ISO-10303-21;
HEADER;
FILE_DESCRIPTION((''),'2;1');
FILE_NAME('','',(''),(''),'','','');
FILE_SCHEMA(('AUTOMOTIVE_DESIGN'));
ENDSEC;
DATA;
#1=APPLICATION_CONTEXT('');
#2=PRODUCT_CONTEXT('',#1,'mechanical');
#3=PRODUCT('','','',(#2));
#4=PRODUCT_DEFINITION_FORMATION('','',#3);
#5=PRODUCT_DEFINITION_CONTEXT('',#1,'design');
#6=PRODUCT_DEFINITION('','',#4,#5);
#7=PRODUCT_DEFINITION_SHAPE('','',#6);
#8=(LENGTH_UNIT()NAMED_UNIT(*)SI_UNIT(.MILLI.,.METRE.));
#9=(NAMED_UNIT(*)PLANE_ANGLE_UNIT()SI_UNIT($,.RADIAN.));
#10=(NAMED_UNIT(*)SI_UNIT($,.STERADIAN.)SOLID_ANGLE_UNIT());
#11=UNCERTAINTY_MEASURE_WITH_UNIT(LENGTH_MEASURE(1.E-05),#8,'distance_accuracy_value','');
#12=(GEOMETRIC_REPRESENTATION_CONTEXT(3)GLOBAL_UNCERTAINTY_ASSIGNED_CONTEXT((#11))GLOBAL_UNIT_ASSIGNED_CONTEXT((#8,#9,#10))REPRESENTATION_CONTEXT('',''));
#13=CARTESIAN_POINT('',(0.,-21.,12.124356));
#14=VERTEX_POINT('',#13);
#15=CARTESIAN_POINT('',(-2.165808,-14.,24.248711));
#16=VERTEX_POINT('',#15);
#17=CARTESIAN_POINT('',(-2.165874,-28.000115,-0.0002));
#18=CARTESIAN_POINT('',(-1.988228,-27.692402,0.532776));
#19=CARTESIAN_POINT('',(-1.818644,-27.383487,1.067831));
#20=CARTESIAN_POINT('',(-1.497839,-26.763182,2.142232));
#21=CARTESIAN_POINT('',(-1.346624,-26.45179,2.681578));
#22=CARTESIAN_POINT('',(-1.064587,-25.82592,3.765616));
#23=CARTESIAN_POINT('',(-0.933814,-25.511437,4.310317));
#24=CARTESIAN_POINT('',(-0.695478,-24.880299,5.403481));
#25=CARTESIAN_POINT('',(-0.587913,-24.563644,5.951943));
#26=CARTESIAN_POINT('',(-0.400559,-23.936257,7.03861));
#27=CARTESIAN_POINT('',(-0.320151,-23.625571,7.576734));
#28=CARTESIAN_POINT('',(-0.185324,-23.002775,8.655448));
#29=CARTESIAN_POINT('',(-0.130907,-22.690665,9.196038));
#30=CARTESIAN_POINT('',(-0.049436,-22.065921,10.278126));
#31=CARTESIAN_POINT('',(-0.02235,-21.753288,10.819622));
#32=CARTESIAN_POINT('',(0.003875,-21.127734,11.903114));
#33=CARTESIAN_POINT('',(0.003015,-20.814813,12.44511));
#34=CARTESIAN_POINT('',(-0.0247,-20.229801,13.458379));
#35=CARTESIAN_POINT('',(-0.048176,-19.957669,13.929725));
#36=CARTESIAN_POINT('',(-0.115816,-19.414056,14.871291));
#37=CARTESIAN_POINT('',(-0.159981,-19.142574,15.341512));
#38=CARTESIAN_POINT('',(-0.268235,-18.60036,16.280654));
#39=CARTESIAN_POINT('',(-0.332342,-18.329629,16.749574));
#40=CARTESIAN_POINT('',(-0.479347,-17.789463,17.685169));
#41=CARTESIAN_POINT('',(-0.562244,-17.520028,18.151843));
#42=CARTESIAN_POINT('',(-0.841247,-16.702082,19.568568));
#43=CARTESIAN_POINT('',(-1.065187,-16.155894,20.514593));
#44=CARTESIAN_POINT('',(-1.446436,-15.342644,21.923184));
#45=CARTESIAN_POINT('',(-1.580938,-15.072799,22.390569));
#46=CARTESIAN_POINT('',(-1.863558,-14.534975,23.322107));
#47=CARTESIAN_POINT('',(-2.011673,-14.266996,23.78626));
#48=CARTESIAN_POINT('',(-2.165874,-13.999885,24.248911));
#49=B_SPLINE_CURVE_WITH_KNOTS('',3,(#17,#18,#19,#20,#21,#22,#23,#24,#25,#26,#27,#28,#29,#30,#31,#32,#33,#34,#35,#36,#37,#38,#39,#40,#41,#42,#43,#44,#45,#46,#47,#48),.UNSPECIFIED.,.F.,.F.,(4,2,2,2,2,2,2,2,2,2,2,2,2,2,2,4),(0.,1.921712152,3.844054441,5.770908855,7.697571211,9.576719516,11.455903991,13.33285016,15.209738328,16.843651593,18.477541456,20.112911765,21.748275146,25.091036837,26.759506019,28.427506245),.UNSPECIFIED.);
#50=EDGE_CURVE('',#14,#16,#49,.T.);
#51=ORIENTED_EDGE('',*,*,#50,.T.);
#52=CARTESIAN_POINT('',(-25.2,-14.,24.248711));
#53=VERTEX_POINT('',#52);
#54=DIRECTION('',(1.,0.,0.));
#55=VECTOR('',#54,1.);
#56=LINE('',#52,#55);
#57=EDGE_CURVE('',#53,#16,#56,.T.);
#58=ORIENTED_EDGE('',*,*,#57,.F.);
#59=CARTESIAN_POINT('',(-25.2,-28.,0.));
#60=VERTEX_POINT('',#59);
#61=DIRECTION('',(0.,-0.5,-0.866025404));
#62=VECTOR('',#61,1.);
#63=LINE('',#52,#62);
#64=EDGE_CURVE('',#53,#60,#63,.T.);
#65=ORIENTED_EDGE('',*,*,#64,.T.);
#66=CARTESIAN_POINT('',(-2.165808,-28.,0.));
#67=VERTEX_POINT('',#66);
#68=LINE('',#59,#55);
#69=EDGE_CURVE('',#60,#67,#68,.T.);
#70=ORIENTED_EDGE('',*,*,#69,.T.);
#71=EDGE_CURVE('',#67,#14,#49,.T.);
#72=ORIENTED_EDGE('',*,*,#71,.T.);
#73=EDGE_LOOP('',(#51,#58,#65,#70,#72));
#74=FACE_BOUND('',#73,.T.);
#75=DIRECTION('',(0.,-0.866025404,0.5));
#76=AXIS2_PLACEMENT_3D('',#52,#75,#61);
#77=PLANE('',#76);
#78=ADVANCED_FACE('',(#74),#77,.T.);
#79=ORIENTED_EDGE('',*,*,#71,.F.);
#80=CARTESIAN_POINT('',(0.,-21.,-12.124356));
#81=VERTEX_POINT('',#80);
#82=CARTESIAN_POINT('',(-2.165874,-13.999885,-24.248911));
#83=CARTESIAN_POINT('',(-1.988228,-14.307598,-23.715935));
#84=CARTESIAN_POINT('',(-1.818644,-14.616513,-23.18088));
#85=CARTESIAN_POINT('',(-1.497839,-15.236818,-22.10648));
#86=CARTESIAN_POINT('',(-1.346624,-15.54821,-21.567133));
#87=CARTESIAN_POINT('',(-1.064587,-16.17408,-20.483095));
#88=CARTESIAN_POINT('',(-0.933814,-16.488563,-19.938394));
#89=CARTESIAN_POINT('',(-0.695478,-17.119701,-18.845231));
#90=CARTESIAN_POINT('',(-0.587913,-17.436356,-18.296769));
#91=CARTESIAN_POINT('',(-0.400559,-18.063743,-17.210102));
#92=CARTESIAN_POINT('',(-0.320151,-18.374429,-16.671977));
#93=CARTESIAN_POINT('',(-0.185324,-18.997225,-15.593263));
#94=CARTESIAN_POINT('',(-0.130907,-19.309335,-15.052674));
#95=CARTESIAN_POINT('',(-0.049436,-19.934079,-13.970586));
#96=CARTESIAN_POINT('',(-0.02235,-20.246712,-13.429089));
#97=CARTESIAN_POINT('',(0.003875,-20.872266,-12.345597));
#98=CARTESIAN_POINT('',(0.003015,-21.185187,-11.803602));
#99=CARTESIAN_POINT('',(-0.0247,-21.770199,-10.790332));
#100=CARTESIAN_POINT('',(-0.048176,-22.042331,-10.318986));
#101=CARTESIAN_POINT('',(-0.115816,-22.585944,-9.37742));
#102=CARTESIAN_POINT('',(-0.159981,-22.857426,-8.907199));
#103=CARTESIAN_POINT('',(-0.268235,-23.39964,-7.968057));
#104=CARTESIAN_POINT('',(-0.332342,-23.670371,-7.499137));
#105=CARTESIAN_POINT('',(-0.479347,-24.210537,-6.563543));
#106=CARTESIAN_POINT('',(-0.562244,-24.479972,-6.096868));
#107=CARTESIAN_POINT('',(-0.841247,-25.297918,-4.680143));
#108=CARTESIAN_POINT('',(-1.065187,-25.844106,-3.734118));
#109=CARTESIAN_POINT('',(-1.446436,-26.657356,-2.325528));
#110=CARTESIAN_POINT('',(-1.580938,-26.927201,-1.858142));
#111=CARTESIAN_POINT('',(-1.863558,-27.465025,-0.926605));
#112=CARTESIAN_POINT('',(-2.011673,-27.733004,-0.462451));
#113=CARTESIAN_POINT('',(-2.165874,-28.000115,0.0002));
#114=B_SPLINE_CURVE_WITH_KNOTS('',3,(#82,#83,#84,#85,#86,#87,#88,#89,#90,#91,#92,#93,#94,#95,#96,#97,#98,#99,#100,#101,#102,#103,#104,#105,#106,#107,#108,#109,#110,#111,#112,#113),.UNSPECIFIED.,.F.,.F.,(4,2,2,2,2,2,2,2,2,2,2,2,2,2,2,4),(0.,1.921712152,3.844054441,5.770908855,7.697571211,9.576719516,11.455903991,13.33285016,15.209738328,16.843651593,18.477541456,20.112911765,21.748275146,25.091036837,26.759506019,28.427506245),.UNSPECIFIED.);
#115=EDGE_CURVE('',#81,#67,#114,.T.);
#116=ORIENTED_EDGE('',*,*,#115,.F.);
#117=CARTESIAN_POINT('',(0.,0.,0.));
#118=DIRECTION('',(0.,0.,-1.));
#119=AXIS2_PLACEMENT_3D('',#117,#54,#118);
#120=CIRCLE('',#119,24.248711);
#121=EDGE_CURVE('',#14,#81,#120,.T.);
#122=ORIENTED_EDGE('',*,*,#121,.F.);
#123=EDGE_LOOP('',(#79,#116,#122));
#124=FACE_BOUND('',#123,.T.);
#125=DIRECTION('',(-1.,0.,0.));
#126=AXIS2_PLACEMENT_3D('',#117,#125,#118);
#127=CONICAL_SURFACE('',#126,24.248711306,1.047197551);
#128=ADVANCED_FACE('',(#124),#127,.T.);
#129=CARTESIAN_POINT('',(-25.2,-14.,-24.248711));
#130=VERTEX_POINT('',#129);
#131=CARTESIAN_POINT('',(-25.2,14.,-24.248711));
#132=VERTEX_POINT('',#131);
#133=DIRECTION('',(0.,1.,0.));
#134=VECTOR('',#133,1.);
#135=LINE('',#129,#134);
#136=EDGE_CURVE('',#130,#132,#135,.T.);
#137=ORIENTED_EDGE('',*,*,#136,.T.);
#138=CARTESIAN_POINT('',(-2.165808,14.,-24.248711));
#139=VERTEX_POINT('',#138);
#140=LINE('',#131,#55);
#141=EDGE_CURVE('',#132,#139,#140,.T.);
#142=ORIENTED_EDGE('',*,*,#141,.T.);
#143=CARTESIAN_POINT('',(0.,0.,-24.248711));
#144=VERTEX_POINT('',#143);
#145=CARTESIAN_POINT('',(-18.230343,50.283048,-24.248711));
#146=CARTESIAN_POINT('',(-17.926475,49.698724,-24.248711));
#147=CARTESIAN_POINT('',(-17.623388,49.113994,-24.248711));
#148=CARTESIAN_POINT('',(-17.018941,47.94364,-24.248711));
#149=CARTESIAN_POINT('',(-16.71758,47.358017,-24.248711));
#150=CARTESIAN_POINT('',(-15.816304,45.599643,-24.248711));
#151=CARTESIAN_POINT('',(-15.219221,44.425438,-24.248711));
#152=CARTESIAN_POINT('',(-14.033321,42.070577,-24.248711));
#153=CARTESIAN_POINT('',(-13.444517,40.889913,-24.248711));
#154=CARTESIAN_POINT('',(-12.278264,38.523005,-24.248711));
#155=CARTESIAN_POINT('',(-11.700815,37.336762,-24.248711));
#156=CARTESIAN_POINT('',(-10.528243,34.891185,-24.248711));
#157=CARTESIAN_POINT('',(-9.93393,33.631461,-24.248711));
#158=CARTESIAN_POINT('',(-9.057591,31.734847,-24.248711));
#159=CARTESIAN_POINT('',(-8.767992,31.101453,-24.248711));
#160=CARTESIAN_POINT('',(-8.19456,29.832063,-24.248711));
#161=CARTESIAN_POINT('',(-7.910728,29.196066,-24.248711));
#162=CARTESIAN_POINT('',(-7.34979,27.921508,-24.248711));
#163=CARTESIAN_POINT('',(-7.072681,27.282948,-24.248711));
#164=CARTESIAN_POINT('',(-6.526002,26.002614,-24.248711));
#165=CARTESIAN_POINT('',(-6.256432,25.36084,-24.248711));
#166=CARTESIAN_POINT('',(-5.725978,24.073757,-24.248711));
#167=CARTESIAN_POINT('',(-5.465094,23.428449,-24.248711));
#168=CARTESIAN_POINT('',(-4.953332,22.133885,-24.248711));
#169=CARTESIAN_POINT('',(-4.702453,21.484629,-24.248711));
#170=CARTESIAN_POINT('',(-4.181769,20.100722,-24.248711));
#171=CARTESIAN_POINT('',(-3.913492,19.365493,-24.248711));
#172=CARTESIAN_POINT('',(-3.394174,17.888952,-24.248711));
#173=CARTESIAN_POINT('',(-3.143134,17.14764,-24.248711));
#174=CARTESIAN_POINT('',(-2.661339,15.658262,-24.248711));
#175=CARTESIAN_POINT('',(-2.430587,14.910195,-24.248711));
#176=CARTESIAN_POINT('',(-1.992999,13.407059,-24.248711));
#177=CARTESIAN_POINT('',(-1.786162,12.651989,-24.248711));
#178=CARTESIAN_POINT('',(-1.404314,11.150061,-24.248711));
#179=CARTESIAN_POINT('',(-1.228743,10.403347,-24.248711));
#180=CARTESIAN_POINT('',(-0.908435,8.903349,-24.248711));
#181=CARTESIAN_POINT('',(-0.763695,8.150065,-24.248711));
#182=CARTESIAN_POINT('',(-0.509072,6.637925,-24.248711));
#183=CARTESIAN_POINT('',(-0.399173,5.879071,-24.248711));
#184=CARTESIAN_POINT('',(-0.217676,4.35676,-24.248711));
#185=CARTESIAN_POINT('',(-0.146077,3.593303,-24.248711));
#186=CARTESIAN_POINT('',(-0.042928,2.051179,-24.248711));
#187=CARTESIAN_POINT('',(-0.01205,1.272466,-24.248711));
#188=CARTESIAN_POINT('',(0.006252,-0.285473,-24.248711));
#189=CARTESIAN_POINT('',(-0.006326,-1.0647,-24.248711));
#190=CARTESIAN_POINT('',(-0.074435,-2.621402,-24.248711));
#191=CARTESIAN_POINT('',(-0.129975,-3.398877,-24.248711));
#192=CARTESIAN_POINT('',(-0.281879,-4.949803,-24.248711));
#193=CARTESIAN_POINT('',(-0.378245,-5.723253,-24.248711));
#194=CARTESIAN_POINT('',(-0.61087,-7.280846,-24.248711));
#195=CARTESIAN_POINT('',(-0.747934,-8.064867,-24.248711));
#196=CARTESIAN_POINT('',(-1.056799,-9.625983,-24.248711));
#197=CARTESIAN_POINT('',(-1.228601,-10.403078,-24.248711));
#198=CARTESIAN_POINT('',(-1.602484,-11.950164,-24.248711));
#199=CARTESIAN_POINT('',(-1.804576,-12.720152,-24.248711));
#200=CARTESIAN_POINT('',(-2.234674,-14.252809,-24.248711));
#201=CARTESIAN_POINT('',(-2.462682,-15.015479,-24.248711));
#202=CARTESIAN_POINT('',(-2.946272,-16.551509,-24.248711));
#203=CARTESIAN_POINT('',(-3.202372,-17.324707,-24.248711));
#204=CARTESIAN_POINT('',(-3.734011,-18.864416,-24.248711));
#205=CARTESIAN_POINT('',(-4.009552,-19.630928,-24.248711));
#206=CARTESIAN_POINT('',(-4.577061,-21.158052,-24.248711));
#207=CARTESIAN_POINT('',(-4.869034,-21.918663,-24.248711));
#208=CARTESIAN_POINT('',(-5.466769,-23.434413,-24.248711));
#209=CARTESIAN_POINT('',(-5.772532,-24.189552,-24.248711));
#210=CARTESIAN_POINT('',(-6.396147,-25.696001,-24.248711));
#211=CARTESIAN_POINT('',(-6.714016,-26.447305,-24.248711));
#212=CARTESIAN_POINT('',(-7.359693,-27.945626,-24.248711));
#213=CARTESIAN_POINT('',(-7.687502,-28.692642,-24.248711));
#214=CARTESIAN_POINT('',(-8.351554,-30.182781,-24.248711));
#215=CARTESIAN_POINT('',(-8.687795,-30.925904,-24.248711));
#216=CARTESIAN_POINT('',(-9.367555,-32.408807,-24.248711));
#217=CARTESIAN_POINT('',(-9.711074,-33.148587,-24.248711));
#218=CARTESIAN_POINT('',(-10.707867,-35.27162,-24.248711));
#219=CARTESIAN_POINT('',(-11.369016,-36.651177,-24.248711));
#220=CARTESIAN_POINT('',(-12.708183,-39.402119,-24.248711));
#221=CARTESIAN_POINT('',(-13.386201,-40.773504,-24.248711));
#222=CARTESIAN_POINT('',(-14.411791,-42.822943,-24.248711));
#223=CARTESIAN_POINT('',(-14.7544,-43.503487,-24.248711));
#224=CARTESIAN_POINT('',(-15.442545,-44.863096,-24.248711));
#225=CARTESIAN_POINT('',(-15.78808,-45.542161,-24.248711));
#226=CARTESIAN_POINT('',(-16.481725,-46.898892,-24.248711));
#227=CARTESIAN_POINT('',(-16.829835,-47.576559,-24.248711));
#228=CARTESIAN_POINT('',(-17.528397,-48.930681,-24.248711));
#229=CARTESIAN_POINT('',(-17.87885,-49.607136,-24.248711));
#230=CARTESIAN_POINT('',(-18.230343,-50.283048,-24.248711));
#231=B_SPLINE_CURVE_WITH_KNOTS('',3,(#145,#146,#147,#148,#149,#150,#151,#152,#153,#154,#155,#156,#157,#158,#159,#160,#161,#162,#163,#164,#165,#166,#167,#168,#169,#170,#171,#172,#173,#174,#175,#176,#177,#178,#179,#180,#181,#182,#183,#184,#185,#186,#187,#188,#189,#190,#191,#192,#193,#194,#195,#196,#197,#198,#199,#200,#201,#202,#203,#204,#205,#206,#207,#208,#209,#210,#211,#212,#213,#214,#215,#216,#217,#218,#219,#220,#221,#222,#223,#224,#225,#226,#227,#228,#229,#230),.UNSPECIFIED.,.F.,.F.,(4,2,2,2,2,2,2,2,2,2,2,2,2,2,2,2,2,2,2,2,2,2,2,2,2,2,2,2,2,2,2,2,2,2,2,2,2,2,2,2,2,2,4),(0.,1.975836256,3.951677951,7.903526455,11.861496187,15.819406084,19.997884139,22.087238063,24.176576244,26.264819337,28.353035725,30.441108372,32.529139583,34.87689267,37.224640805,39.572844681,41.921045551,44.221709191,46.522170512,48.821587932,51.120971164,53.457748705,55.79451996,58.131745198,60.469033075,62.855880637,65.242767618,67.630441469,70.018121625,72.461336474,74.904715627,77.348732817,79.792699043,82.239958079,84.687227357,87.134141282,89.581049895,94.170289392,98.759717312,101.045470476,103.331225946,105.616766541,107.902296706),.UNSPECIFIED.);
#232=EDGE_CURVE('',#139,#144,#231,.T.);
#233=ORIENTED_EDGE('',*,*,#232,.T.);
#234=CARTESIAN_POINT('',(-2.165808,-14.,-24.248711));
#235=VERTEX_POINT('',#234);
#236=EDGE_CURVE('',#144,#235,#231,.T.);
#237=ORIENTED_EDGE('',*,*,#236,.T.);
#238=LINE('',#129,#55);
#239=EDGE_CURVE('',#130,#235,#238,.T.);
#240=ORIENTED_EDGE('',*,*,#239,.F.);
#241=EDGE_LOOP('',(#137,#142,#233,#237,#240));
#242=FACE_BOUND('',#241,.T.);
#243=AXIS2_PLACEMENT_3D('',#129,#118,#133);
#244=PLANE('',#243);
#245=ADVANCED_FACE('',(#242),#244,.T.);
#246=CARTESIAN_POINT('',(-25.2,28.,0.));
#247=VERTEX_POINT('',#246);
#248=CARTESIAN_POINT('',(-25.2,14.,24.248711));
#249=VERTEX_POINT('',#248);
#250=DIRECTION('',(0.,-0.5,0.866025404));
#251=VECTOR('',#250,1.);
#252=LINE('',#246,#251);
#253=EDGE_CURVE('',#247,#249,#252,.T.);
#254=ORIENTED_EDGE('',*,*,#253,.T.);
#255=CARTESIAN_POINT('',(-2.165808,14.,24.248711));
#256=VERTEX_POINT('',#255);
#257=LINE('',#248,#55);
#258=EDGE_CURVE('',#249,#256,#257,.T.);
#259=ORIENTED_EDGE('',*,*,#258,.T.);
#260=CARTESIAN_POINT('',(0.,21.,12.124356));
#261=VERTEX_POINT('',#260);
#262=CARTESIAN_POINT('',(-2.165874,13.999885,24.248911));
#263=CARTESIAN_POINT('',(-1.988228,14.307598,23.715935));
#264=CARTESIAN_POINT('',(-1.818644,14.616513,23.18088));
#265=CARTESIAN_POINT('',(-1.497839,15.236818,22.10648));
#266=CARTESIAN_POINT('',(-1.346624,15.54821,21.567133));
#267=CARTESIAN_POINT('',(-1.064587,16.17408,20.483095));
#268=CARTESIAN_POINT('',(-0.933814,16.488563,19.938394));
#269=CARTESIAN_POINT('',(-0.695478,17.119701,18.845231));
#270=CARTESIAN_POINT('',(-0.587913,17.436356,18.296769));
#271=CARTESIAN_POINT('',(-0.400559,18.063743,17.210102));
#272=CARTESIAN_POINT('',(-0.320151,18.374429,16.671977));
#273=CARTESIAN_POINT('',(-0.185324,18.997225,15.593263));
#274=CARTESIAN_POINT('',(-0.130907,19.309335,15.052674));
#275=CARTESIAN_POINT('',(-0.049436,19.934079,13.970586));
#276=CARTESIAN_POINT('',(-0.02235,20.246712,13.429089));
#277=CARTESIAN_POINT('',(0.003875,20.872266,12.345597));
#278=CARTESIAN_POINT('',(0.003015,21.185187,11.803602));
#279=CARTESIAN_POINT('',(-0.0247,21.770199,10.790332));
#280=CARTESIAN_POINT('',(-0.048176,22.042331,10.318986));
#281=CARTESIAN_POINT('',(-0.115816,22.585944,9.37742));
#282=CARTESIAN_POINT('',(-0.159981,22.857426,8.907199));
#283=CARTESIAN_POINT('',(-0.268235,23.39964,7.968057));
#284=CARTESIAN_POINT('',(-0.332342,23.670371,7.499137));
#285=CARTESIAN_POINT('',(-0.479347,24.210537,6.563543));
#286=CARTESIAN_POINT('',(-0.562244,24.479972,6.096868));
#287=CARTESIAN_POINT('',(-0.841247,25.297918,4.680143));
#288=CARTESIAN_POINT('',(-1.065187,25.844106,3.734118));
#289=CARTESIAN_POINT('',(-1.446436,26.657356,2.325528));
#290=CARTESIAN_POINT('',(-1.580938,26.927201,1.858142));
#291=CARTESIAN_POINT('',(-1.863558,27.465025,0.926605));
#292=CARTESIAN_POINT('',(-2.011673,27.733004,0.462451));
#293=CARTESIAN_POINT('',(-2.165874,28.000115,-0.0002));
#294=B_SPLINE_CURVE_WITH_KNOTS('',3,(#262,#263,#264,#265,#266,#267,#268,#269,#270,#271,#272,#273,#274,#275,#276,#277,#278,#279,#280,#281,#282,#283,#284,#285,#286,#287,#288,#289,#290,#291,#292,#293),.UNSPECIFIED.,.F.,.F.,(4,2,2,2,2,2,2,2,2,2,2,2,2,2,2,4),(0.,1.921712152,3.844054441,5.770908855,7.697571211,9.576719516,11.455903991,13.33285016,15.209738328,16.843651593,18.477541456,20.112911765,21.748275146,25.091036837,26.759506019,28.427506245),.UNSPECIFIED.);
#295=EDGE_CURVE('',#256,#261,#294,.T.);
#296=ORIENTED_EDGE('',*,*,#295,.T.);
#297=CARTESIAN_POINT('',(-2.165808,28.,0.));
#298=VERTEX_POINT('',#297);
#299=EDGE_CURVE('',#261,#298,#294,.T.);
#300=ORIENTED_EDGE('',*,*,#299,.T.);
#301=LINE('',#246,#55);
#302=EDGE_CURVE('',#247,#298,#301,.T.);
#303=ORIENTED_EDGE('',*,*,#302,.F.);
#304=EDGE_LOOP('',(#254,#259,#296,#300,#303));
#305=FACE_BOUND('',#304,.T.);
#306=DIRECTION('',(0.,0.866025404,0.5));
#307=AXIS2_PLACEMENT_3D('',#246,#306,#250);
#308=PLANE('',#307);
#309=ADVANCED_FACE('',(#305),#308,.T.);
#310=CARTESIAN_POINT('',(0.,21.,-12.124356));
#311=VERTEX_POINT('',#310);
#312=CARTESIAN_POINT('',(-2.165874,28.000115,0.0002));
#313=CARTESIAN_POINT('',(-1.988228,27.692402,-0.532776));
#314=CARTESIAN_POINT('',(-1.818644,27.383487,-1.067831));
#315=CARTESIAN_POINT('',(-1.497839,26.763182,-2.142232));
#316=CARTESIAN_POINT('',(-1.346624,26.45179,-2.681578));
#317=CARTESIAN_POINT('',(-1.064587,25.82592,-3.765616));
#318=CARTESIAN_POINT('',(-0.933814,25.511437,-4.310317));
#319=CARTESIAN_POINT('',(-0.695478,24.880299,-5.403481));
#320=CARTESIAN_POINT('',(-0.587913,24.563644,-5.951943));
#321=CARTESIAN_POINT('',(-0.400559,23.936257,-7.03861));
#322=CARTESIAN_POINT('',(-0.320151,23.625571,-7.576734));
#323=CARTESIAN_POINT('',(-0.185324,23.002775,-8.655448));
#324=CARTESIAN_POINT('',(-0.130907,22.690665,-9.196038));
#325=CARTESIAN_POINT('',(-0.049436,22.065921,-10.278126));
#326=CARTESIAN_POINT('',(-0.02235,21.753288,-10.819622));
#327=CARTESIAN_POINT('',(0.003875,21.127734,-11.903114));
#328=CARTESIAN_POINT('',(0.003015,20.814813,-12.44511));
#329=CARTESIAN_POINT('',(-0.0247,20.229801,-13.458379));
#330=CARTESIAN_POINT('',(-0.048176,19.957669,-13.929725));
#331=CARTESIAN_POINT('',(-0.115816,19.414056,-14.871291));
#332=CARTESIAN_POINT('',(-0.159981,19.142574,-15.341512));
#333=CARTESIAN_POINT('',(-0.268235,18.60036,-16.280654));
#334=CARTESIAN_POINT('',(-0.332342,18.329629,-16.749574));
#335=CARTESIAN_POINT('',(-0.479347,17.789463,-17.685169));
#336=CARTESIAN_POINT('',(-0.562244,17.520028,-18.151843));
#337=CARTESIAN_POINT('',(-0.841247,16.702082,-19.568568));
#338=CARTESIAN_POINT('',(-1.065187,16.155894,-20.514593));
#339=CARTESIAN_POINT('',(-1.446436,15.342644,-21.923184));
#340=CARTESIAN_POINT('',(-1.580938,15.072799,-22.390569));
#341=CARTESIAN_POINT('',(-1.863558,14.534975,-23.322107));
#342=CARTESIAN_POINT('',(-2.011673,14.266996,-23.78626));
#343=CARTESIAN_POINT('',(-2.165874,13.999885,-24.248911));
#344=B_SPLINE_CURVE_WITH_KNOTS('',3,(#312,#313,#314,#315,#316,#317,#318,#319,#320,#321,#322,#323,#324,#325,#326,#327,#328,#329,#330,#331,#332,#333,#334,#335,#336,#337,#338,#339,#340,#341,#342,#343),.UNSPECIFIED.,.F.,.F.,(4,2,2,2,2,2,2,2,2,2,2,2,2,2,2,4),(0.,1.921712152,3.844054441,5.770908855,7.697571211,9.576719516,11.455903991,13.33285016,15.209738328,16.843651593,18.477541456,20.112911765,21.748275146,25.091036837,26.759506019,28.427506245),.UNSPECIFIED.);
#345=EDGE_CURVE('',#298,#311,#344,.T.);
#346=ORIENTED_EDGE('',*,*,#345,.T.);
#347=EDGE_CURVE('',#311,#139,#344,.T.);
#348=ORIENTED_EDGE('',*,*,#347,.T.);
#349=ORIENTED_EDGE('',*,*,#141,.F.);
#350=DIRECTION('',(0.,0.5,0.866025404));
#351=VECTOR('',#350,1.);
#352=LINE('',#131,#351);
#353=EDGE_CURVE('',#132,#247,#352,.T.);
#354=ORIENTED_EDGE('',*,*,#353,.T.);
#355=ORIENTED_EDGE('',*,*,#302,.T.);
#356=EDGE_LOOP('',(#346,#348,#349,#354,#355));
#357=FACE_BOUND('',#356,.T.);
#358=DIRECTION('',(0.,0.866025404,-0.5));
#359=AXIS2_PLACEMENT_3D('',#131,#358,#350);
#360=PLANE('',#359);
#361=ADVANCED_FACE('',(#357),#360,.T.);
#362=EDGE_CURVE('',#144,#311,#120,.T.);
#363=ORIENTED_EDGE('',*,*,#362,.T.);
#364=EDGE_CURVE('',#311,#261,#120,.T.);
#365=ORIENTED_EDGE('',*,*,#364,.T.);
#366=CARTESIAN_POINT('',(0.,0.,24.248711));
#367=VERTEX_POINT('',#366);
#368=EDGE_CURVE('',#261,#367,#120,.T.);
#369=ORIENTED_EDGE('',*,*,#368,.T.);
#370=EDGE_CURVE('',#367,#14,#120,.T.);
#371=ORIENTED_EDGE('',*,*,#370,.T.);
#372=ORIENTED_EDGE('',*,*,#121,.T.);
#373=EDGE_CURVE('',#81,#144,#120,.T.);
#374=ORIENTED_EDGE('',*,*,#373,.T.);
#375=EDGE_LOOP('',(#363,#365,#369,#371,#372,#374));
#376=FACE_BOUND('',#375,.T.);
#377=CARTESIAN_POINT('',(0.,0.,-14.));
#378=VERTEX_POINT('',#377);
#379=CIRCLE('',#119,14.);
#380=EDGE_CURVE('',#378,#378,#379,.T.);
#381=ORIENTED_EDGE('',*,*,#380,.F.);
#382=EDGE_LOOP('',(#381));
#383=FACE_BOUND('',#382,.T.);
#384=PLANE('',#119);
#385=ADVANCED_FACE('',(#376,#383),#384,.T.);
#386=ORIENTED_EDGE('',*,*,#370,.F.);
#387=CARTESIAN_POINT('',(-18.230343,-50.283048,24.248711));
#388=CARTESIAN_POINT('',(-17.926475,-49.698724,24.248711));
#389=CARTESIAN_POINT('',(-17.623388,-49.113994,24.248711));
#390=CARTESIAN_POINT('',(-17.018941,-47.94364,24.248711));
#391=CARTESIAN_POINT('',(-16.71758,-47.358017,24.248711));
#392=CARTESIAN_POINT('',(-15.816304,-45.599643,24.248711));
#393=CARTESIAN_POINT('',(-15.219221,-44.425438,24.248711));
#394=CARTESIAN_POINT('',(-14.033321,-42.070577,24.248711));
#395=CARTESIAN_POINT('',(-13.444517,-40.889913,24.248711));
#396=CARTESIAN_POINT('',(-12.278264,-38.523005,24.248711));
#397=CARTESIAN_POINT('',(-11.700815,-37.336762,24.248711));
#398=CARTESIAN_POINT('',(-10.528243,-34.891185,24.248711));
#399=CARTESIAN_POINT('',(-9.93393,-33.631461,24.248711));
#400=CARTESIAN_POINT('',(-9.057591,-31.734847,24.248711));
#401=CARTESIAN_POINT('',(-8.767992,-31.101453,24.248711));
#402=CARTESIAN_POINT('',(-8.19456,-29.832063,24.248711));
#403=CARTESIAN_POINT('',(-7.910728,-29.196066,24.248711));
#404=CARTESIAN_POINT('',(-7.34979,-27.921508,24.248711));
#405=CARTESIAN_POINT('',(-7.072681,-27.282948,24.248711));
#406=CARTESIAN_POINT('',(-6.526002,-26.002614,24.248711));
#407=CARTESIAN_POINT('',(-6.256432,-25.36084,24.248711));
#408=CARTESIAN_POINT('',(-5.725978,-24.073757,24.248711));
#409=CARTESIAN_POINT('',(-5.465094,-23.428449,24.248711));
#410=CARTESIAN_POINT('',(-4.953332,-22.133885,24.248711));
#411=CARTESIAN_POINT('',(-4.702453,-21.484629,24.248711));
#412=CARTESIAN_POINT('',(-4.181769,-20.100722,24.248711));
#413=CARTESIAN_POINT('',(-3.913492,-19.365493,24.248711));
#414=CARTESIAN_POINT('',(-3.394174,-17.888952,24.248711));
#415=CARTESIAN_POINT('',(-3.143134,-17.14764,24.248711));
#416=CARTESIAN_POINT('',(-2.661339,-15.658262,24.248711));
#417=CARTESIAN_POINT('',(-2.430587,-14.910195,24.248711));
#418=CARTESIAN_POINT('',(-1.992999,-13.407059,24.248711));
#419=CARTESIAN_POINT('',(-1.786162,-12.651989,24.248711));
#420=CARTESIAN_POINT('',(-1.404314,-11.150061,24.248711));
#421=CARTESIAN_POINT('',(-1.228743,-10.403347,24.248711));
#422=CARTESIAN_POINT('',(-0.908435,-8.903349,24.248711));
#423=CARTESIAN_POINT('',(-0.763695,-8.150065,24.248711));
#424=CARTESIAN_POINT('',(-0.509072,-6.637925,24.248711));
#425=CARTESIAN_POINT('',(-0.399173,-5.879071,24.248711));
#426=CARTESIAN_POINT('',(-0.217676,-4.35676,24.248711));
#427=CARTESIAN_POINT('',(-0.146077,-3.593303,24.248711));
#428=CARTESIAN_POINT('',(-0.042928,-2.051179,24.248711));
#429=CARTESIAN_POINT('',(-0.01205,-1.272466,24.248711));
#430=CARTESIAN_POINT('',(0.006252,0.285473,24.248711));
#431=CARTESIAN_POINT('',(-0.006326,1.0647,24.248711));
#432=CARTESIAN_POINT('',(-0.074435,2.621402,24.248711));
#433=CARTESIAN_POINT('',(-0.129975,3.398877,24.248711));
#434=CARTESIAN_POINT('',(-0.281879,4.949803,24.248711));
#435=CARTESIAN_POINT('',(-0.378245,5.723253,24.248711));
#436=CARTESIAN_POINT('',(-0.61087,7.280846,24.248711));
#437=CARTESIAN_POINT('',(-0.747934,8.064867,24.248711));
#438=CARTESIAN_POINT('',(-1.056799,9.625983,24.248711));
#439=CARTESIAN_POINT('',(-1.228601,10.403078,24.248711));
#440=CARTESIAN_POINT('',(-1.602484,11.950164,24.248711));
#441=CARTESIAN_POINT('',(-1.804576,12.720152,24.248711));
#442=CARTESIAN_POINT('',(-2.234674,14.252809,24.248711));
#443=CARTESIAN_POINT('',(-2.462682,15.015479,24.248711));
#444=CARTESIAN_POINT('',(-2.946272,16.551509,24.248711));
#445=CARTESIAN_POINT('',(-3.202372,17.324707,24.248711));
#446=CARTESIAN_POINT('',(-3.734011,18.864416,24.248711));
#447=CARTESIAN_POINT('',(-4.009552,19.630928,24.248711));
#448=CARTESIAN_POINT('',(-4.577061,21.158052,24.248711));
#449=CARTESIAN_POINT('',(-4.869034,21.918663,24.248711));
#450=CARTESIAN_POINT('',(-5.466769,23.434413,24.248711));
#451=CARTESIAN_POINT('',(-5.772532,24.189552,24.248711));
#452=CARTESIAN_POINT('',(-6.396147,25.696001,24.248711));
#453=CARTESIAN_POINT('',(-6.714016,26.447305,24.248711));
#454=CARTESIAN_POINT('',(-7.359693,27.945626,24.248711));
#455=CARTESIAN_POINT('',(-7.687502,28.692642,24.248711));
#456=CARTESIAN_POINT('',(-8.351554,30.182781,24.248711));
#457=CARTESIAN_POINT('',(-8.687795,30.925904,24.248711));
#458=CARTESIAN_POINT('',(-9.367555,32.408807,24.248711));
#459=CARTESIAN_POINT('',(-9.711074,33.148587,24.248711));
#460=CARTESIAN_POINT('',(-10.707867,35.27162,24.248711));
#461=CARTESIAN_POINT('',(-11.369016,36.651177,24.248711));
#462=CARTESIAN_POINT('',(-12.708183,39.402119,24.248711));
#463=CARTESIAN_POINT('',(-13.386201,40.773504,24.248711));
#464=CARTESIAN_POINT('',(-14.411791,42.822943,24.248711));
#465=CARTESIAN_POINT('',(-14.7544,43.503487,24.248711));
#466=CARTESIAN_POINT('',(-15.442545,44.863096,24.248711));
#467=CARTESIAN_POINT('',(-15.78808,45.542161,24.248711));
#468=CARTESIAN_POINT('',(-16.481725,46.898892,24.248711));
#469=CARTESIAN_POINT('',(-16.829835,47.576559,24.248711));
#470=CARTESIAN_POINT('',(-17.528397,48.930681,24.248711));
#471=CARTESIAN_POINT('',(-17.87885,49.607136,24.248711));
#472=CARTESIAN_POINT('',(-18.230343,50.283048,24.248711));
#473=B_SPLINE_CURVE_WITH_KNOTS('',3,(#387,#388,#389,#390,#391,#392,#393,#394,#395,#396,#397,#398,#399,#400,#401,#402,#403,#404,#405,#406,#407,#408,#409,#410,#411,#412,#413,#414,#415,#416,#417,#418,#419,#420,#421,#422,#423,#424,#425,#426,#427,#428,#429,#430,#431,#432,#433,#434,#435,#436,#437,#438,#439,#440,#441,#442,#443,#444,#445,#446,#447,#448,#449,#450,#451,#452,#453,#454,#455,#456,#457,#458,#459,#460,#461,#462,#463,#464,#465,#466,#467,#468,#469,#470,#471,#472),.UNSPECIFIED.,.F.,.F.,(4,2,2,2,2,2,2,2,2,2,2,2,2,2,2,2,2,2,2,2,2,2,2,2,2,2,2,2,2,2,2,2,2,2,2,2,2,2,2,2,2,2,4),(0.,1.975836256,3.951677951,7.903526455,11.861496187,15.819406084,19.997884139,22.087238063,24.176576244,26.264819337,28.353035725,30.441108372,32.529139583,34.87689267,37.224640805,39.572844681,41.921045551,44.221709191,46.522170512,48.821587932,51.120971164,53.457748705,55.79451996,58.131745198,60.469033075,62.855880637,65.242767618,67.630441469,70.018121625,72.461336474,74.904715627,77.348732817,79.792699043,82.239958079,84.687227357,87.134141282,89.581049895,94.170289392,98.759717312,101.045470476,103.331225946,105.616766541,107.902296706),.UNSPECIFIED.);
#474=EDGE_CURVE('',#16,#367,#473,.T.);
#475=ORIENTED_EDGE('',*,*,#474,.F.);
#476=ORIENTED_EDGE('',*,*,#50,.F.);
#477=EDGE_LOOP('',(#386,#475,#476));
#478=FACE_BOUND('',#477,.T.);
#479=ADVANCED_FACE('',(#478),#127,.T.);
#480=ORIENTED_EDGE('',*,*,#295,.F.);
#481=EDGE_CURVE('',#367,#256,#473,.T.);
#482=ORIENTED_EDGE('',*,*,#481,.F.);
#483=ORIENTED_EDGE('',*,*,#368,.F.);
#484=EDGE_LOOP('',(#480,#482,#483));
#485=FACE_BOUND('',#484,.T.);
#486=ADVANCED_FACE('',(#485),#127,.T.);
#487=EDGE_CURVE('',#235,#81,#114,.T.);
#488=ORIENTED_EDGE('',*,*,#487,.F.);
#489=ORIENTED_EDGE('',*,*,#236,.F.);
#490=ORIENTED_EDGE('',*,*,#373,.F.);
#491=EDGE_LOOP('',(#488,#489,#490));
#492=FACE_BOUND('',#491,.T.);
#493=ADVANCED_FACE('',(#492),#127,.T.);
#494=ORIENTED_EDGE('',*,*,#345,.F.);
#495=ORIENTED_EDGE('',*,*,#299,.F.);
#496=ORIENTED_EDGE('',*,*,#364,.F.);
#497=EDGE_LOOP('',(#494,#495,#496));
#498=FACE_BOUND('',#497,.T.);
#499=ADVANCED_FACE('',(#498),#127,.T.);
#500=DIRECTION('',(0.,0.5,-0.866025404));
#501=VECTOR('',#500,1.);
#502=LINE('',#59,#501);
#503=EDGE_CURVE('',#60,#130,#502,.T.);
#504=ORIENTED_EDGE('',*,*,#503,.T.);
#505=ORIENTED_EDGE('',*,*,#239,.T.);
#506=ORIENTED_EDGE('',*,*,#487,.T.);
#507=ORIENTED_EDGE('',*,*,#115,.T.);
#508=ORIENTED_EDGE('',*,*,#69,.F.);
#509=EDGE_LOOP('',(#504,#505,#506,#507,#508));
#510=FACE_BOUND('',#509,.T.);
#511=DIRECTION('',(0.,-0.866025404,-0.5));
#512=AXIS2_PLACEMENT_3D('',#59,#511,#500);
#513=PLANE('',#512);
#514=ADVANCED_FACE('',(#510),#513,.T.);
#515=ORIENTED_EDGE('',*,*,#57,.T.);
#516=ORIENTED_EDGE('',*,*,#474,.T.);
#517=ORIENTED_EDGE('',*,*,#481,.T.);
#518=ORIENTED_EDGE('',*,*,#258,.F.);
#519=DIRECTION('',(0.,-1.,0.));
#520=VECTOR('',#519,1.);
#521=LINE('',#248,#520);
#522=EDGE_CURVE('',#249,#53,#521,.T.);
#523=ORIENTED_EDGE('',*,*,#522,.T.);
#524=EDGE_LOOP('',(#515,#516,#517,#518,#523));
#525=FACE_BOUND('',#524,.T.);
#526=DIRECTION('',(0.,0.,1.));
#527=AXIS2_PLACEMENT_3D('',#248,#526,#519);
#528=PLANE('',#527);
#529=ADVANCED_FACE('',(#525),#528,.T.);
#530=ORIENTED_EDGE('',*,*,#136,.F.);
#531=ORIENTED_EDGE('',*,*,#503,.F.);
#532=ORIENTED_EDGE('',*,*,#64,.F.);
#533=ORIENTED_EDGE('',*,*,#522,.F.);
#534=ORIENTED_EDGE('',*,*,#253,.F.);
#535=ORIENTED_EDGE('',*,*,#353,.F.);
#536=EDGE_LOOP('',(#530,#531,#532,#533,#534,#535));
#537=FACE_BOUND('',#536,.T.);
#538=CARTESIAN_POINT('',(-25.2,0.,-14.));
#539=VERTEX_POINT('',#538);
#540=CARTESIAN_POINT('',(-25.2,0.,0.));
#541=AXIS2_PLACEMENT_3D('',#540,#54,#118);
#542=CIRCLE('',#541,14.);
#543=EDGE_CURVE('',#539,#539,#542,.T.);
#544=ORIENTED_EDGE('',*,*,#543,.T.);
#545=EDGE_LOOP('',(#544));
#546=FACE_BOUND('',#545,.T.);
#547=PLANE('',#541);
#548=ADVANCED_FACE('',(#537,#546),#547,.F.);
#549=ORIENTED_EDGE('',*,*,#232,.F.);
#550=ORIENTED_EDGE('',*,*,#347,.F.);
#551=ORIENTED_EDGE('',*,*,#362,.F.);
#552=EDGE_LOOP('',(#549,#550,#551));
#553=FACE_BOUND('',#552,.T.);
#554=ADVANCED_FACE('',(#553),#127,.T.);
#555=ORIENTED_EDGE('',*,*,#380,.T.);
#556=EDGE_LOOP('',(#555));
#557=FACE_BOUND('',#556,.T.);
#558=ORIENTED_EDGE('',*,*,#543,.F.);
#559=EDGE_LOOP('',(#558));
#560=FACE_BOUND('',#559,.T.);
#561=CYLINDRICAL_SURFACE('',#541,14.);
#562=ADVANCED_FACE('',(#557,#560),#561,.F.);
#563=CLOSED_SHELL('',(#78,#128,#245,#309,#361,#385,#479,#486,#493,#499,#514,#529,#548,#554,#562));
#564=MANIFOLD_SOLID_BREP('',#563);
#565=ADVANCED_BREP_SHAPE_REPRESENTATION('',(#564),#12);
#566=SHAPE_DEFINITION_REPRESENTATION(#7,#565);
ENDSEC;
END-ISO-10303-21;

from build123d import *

# Parameters (mm, degrees)
BOSS_EXTRUDE1_DEPTH = 25.2
SKETCH2_R           = 14
CUT_EXTRUDE1_DEPTH  = 25.2
SKETCH3_OUTSIDE_W   = 153.444
SKETCH3_OUTSIDE_H   = 160.946
SKETCH3_OUTSIDE_R   = 24.248711306
CUT_EXTRUDE2_DEPTH  = 25.2
CUT_EXTRUDE2_TAPER  = 60


with BuildPart() as part:
    # Sketch1 → Boss-Extrude1 (new body)
    with BuildSketch(Plane(origin=(0, 0, 0), x_dir=(0, 0, -1), z_dir=(1, 0, 0))):
        Polygon((0, 28), (-24.248711306, 14), (-24.248711306, -14), (0, -28), (24.248711306, -14), (24.248711306, 14), align=None)
    extrude(amount=-BOSS_EXTRUDE1_DEPTH)

    # Sketch2 → Cut-Extrude1 (cut)
    with BuildSketch(Plane(origin=(0, 0, 0), x_dir=(0, 0, -1), z_dir=(1, 0, 0))):
        Circle(SKETCH2_R)
    extrude(amount=-CUT_EXTRUDE1_DEPTH, mode=Mode.SUBTRACT)

    # Sketch3 outside → Cut-Extrude2 (cut)
    with BuildSketch(Plane(origin=(0, 0, 0), x_dir=(0, 0, -1), z_dir=(1, 0, 0))):
        Rectangle(SKETCH3_OUTSIDE_W, SKETCH3_OUTSIDE_H)
        Circle(SKETCH3_OUTSIDE_R, mode=Mode.SUBTRACT)
    extrude(amount=-CUT_EXTRUDE2_DEPTH, taper=CUT_EXTRUDE2_TAPER, mode=Mode.SUBTRACT)


solid = part.part
